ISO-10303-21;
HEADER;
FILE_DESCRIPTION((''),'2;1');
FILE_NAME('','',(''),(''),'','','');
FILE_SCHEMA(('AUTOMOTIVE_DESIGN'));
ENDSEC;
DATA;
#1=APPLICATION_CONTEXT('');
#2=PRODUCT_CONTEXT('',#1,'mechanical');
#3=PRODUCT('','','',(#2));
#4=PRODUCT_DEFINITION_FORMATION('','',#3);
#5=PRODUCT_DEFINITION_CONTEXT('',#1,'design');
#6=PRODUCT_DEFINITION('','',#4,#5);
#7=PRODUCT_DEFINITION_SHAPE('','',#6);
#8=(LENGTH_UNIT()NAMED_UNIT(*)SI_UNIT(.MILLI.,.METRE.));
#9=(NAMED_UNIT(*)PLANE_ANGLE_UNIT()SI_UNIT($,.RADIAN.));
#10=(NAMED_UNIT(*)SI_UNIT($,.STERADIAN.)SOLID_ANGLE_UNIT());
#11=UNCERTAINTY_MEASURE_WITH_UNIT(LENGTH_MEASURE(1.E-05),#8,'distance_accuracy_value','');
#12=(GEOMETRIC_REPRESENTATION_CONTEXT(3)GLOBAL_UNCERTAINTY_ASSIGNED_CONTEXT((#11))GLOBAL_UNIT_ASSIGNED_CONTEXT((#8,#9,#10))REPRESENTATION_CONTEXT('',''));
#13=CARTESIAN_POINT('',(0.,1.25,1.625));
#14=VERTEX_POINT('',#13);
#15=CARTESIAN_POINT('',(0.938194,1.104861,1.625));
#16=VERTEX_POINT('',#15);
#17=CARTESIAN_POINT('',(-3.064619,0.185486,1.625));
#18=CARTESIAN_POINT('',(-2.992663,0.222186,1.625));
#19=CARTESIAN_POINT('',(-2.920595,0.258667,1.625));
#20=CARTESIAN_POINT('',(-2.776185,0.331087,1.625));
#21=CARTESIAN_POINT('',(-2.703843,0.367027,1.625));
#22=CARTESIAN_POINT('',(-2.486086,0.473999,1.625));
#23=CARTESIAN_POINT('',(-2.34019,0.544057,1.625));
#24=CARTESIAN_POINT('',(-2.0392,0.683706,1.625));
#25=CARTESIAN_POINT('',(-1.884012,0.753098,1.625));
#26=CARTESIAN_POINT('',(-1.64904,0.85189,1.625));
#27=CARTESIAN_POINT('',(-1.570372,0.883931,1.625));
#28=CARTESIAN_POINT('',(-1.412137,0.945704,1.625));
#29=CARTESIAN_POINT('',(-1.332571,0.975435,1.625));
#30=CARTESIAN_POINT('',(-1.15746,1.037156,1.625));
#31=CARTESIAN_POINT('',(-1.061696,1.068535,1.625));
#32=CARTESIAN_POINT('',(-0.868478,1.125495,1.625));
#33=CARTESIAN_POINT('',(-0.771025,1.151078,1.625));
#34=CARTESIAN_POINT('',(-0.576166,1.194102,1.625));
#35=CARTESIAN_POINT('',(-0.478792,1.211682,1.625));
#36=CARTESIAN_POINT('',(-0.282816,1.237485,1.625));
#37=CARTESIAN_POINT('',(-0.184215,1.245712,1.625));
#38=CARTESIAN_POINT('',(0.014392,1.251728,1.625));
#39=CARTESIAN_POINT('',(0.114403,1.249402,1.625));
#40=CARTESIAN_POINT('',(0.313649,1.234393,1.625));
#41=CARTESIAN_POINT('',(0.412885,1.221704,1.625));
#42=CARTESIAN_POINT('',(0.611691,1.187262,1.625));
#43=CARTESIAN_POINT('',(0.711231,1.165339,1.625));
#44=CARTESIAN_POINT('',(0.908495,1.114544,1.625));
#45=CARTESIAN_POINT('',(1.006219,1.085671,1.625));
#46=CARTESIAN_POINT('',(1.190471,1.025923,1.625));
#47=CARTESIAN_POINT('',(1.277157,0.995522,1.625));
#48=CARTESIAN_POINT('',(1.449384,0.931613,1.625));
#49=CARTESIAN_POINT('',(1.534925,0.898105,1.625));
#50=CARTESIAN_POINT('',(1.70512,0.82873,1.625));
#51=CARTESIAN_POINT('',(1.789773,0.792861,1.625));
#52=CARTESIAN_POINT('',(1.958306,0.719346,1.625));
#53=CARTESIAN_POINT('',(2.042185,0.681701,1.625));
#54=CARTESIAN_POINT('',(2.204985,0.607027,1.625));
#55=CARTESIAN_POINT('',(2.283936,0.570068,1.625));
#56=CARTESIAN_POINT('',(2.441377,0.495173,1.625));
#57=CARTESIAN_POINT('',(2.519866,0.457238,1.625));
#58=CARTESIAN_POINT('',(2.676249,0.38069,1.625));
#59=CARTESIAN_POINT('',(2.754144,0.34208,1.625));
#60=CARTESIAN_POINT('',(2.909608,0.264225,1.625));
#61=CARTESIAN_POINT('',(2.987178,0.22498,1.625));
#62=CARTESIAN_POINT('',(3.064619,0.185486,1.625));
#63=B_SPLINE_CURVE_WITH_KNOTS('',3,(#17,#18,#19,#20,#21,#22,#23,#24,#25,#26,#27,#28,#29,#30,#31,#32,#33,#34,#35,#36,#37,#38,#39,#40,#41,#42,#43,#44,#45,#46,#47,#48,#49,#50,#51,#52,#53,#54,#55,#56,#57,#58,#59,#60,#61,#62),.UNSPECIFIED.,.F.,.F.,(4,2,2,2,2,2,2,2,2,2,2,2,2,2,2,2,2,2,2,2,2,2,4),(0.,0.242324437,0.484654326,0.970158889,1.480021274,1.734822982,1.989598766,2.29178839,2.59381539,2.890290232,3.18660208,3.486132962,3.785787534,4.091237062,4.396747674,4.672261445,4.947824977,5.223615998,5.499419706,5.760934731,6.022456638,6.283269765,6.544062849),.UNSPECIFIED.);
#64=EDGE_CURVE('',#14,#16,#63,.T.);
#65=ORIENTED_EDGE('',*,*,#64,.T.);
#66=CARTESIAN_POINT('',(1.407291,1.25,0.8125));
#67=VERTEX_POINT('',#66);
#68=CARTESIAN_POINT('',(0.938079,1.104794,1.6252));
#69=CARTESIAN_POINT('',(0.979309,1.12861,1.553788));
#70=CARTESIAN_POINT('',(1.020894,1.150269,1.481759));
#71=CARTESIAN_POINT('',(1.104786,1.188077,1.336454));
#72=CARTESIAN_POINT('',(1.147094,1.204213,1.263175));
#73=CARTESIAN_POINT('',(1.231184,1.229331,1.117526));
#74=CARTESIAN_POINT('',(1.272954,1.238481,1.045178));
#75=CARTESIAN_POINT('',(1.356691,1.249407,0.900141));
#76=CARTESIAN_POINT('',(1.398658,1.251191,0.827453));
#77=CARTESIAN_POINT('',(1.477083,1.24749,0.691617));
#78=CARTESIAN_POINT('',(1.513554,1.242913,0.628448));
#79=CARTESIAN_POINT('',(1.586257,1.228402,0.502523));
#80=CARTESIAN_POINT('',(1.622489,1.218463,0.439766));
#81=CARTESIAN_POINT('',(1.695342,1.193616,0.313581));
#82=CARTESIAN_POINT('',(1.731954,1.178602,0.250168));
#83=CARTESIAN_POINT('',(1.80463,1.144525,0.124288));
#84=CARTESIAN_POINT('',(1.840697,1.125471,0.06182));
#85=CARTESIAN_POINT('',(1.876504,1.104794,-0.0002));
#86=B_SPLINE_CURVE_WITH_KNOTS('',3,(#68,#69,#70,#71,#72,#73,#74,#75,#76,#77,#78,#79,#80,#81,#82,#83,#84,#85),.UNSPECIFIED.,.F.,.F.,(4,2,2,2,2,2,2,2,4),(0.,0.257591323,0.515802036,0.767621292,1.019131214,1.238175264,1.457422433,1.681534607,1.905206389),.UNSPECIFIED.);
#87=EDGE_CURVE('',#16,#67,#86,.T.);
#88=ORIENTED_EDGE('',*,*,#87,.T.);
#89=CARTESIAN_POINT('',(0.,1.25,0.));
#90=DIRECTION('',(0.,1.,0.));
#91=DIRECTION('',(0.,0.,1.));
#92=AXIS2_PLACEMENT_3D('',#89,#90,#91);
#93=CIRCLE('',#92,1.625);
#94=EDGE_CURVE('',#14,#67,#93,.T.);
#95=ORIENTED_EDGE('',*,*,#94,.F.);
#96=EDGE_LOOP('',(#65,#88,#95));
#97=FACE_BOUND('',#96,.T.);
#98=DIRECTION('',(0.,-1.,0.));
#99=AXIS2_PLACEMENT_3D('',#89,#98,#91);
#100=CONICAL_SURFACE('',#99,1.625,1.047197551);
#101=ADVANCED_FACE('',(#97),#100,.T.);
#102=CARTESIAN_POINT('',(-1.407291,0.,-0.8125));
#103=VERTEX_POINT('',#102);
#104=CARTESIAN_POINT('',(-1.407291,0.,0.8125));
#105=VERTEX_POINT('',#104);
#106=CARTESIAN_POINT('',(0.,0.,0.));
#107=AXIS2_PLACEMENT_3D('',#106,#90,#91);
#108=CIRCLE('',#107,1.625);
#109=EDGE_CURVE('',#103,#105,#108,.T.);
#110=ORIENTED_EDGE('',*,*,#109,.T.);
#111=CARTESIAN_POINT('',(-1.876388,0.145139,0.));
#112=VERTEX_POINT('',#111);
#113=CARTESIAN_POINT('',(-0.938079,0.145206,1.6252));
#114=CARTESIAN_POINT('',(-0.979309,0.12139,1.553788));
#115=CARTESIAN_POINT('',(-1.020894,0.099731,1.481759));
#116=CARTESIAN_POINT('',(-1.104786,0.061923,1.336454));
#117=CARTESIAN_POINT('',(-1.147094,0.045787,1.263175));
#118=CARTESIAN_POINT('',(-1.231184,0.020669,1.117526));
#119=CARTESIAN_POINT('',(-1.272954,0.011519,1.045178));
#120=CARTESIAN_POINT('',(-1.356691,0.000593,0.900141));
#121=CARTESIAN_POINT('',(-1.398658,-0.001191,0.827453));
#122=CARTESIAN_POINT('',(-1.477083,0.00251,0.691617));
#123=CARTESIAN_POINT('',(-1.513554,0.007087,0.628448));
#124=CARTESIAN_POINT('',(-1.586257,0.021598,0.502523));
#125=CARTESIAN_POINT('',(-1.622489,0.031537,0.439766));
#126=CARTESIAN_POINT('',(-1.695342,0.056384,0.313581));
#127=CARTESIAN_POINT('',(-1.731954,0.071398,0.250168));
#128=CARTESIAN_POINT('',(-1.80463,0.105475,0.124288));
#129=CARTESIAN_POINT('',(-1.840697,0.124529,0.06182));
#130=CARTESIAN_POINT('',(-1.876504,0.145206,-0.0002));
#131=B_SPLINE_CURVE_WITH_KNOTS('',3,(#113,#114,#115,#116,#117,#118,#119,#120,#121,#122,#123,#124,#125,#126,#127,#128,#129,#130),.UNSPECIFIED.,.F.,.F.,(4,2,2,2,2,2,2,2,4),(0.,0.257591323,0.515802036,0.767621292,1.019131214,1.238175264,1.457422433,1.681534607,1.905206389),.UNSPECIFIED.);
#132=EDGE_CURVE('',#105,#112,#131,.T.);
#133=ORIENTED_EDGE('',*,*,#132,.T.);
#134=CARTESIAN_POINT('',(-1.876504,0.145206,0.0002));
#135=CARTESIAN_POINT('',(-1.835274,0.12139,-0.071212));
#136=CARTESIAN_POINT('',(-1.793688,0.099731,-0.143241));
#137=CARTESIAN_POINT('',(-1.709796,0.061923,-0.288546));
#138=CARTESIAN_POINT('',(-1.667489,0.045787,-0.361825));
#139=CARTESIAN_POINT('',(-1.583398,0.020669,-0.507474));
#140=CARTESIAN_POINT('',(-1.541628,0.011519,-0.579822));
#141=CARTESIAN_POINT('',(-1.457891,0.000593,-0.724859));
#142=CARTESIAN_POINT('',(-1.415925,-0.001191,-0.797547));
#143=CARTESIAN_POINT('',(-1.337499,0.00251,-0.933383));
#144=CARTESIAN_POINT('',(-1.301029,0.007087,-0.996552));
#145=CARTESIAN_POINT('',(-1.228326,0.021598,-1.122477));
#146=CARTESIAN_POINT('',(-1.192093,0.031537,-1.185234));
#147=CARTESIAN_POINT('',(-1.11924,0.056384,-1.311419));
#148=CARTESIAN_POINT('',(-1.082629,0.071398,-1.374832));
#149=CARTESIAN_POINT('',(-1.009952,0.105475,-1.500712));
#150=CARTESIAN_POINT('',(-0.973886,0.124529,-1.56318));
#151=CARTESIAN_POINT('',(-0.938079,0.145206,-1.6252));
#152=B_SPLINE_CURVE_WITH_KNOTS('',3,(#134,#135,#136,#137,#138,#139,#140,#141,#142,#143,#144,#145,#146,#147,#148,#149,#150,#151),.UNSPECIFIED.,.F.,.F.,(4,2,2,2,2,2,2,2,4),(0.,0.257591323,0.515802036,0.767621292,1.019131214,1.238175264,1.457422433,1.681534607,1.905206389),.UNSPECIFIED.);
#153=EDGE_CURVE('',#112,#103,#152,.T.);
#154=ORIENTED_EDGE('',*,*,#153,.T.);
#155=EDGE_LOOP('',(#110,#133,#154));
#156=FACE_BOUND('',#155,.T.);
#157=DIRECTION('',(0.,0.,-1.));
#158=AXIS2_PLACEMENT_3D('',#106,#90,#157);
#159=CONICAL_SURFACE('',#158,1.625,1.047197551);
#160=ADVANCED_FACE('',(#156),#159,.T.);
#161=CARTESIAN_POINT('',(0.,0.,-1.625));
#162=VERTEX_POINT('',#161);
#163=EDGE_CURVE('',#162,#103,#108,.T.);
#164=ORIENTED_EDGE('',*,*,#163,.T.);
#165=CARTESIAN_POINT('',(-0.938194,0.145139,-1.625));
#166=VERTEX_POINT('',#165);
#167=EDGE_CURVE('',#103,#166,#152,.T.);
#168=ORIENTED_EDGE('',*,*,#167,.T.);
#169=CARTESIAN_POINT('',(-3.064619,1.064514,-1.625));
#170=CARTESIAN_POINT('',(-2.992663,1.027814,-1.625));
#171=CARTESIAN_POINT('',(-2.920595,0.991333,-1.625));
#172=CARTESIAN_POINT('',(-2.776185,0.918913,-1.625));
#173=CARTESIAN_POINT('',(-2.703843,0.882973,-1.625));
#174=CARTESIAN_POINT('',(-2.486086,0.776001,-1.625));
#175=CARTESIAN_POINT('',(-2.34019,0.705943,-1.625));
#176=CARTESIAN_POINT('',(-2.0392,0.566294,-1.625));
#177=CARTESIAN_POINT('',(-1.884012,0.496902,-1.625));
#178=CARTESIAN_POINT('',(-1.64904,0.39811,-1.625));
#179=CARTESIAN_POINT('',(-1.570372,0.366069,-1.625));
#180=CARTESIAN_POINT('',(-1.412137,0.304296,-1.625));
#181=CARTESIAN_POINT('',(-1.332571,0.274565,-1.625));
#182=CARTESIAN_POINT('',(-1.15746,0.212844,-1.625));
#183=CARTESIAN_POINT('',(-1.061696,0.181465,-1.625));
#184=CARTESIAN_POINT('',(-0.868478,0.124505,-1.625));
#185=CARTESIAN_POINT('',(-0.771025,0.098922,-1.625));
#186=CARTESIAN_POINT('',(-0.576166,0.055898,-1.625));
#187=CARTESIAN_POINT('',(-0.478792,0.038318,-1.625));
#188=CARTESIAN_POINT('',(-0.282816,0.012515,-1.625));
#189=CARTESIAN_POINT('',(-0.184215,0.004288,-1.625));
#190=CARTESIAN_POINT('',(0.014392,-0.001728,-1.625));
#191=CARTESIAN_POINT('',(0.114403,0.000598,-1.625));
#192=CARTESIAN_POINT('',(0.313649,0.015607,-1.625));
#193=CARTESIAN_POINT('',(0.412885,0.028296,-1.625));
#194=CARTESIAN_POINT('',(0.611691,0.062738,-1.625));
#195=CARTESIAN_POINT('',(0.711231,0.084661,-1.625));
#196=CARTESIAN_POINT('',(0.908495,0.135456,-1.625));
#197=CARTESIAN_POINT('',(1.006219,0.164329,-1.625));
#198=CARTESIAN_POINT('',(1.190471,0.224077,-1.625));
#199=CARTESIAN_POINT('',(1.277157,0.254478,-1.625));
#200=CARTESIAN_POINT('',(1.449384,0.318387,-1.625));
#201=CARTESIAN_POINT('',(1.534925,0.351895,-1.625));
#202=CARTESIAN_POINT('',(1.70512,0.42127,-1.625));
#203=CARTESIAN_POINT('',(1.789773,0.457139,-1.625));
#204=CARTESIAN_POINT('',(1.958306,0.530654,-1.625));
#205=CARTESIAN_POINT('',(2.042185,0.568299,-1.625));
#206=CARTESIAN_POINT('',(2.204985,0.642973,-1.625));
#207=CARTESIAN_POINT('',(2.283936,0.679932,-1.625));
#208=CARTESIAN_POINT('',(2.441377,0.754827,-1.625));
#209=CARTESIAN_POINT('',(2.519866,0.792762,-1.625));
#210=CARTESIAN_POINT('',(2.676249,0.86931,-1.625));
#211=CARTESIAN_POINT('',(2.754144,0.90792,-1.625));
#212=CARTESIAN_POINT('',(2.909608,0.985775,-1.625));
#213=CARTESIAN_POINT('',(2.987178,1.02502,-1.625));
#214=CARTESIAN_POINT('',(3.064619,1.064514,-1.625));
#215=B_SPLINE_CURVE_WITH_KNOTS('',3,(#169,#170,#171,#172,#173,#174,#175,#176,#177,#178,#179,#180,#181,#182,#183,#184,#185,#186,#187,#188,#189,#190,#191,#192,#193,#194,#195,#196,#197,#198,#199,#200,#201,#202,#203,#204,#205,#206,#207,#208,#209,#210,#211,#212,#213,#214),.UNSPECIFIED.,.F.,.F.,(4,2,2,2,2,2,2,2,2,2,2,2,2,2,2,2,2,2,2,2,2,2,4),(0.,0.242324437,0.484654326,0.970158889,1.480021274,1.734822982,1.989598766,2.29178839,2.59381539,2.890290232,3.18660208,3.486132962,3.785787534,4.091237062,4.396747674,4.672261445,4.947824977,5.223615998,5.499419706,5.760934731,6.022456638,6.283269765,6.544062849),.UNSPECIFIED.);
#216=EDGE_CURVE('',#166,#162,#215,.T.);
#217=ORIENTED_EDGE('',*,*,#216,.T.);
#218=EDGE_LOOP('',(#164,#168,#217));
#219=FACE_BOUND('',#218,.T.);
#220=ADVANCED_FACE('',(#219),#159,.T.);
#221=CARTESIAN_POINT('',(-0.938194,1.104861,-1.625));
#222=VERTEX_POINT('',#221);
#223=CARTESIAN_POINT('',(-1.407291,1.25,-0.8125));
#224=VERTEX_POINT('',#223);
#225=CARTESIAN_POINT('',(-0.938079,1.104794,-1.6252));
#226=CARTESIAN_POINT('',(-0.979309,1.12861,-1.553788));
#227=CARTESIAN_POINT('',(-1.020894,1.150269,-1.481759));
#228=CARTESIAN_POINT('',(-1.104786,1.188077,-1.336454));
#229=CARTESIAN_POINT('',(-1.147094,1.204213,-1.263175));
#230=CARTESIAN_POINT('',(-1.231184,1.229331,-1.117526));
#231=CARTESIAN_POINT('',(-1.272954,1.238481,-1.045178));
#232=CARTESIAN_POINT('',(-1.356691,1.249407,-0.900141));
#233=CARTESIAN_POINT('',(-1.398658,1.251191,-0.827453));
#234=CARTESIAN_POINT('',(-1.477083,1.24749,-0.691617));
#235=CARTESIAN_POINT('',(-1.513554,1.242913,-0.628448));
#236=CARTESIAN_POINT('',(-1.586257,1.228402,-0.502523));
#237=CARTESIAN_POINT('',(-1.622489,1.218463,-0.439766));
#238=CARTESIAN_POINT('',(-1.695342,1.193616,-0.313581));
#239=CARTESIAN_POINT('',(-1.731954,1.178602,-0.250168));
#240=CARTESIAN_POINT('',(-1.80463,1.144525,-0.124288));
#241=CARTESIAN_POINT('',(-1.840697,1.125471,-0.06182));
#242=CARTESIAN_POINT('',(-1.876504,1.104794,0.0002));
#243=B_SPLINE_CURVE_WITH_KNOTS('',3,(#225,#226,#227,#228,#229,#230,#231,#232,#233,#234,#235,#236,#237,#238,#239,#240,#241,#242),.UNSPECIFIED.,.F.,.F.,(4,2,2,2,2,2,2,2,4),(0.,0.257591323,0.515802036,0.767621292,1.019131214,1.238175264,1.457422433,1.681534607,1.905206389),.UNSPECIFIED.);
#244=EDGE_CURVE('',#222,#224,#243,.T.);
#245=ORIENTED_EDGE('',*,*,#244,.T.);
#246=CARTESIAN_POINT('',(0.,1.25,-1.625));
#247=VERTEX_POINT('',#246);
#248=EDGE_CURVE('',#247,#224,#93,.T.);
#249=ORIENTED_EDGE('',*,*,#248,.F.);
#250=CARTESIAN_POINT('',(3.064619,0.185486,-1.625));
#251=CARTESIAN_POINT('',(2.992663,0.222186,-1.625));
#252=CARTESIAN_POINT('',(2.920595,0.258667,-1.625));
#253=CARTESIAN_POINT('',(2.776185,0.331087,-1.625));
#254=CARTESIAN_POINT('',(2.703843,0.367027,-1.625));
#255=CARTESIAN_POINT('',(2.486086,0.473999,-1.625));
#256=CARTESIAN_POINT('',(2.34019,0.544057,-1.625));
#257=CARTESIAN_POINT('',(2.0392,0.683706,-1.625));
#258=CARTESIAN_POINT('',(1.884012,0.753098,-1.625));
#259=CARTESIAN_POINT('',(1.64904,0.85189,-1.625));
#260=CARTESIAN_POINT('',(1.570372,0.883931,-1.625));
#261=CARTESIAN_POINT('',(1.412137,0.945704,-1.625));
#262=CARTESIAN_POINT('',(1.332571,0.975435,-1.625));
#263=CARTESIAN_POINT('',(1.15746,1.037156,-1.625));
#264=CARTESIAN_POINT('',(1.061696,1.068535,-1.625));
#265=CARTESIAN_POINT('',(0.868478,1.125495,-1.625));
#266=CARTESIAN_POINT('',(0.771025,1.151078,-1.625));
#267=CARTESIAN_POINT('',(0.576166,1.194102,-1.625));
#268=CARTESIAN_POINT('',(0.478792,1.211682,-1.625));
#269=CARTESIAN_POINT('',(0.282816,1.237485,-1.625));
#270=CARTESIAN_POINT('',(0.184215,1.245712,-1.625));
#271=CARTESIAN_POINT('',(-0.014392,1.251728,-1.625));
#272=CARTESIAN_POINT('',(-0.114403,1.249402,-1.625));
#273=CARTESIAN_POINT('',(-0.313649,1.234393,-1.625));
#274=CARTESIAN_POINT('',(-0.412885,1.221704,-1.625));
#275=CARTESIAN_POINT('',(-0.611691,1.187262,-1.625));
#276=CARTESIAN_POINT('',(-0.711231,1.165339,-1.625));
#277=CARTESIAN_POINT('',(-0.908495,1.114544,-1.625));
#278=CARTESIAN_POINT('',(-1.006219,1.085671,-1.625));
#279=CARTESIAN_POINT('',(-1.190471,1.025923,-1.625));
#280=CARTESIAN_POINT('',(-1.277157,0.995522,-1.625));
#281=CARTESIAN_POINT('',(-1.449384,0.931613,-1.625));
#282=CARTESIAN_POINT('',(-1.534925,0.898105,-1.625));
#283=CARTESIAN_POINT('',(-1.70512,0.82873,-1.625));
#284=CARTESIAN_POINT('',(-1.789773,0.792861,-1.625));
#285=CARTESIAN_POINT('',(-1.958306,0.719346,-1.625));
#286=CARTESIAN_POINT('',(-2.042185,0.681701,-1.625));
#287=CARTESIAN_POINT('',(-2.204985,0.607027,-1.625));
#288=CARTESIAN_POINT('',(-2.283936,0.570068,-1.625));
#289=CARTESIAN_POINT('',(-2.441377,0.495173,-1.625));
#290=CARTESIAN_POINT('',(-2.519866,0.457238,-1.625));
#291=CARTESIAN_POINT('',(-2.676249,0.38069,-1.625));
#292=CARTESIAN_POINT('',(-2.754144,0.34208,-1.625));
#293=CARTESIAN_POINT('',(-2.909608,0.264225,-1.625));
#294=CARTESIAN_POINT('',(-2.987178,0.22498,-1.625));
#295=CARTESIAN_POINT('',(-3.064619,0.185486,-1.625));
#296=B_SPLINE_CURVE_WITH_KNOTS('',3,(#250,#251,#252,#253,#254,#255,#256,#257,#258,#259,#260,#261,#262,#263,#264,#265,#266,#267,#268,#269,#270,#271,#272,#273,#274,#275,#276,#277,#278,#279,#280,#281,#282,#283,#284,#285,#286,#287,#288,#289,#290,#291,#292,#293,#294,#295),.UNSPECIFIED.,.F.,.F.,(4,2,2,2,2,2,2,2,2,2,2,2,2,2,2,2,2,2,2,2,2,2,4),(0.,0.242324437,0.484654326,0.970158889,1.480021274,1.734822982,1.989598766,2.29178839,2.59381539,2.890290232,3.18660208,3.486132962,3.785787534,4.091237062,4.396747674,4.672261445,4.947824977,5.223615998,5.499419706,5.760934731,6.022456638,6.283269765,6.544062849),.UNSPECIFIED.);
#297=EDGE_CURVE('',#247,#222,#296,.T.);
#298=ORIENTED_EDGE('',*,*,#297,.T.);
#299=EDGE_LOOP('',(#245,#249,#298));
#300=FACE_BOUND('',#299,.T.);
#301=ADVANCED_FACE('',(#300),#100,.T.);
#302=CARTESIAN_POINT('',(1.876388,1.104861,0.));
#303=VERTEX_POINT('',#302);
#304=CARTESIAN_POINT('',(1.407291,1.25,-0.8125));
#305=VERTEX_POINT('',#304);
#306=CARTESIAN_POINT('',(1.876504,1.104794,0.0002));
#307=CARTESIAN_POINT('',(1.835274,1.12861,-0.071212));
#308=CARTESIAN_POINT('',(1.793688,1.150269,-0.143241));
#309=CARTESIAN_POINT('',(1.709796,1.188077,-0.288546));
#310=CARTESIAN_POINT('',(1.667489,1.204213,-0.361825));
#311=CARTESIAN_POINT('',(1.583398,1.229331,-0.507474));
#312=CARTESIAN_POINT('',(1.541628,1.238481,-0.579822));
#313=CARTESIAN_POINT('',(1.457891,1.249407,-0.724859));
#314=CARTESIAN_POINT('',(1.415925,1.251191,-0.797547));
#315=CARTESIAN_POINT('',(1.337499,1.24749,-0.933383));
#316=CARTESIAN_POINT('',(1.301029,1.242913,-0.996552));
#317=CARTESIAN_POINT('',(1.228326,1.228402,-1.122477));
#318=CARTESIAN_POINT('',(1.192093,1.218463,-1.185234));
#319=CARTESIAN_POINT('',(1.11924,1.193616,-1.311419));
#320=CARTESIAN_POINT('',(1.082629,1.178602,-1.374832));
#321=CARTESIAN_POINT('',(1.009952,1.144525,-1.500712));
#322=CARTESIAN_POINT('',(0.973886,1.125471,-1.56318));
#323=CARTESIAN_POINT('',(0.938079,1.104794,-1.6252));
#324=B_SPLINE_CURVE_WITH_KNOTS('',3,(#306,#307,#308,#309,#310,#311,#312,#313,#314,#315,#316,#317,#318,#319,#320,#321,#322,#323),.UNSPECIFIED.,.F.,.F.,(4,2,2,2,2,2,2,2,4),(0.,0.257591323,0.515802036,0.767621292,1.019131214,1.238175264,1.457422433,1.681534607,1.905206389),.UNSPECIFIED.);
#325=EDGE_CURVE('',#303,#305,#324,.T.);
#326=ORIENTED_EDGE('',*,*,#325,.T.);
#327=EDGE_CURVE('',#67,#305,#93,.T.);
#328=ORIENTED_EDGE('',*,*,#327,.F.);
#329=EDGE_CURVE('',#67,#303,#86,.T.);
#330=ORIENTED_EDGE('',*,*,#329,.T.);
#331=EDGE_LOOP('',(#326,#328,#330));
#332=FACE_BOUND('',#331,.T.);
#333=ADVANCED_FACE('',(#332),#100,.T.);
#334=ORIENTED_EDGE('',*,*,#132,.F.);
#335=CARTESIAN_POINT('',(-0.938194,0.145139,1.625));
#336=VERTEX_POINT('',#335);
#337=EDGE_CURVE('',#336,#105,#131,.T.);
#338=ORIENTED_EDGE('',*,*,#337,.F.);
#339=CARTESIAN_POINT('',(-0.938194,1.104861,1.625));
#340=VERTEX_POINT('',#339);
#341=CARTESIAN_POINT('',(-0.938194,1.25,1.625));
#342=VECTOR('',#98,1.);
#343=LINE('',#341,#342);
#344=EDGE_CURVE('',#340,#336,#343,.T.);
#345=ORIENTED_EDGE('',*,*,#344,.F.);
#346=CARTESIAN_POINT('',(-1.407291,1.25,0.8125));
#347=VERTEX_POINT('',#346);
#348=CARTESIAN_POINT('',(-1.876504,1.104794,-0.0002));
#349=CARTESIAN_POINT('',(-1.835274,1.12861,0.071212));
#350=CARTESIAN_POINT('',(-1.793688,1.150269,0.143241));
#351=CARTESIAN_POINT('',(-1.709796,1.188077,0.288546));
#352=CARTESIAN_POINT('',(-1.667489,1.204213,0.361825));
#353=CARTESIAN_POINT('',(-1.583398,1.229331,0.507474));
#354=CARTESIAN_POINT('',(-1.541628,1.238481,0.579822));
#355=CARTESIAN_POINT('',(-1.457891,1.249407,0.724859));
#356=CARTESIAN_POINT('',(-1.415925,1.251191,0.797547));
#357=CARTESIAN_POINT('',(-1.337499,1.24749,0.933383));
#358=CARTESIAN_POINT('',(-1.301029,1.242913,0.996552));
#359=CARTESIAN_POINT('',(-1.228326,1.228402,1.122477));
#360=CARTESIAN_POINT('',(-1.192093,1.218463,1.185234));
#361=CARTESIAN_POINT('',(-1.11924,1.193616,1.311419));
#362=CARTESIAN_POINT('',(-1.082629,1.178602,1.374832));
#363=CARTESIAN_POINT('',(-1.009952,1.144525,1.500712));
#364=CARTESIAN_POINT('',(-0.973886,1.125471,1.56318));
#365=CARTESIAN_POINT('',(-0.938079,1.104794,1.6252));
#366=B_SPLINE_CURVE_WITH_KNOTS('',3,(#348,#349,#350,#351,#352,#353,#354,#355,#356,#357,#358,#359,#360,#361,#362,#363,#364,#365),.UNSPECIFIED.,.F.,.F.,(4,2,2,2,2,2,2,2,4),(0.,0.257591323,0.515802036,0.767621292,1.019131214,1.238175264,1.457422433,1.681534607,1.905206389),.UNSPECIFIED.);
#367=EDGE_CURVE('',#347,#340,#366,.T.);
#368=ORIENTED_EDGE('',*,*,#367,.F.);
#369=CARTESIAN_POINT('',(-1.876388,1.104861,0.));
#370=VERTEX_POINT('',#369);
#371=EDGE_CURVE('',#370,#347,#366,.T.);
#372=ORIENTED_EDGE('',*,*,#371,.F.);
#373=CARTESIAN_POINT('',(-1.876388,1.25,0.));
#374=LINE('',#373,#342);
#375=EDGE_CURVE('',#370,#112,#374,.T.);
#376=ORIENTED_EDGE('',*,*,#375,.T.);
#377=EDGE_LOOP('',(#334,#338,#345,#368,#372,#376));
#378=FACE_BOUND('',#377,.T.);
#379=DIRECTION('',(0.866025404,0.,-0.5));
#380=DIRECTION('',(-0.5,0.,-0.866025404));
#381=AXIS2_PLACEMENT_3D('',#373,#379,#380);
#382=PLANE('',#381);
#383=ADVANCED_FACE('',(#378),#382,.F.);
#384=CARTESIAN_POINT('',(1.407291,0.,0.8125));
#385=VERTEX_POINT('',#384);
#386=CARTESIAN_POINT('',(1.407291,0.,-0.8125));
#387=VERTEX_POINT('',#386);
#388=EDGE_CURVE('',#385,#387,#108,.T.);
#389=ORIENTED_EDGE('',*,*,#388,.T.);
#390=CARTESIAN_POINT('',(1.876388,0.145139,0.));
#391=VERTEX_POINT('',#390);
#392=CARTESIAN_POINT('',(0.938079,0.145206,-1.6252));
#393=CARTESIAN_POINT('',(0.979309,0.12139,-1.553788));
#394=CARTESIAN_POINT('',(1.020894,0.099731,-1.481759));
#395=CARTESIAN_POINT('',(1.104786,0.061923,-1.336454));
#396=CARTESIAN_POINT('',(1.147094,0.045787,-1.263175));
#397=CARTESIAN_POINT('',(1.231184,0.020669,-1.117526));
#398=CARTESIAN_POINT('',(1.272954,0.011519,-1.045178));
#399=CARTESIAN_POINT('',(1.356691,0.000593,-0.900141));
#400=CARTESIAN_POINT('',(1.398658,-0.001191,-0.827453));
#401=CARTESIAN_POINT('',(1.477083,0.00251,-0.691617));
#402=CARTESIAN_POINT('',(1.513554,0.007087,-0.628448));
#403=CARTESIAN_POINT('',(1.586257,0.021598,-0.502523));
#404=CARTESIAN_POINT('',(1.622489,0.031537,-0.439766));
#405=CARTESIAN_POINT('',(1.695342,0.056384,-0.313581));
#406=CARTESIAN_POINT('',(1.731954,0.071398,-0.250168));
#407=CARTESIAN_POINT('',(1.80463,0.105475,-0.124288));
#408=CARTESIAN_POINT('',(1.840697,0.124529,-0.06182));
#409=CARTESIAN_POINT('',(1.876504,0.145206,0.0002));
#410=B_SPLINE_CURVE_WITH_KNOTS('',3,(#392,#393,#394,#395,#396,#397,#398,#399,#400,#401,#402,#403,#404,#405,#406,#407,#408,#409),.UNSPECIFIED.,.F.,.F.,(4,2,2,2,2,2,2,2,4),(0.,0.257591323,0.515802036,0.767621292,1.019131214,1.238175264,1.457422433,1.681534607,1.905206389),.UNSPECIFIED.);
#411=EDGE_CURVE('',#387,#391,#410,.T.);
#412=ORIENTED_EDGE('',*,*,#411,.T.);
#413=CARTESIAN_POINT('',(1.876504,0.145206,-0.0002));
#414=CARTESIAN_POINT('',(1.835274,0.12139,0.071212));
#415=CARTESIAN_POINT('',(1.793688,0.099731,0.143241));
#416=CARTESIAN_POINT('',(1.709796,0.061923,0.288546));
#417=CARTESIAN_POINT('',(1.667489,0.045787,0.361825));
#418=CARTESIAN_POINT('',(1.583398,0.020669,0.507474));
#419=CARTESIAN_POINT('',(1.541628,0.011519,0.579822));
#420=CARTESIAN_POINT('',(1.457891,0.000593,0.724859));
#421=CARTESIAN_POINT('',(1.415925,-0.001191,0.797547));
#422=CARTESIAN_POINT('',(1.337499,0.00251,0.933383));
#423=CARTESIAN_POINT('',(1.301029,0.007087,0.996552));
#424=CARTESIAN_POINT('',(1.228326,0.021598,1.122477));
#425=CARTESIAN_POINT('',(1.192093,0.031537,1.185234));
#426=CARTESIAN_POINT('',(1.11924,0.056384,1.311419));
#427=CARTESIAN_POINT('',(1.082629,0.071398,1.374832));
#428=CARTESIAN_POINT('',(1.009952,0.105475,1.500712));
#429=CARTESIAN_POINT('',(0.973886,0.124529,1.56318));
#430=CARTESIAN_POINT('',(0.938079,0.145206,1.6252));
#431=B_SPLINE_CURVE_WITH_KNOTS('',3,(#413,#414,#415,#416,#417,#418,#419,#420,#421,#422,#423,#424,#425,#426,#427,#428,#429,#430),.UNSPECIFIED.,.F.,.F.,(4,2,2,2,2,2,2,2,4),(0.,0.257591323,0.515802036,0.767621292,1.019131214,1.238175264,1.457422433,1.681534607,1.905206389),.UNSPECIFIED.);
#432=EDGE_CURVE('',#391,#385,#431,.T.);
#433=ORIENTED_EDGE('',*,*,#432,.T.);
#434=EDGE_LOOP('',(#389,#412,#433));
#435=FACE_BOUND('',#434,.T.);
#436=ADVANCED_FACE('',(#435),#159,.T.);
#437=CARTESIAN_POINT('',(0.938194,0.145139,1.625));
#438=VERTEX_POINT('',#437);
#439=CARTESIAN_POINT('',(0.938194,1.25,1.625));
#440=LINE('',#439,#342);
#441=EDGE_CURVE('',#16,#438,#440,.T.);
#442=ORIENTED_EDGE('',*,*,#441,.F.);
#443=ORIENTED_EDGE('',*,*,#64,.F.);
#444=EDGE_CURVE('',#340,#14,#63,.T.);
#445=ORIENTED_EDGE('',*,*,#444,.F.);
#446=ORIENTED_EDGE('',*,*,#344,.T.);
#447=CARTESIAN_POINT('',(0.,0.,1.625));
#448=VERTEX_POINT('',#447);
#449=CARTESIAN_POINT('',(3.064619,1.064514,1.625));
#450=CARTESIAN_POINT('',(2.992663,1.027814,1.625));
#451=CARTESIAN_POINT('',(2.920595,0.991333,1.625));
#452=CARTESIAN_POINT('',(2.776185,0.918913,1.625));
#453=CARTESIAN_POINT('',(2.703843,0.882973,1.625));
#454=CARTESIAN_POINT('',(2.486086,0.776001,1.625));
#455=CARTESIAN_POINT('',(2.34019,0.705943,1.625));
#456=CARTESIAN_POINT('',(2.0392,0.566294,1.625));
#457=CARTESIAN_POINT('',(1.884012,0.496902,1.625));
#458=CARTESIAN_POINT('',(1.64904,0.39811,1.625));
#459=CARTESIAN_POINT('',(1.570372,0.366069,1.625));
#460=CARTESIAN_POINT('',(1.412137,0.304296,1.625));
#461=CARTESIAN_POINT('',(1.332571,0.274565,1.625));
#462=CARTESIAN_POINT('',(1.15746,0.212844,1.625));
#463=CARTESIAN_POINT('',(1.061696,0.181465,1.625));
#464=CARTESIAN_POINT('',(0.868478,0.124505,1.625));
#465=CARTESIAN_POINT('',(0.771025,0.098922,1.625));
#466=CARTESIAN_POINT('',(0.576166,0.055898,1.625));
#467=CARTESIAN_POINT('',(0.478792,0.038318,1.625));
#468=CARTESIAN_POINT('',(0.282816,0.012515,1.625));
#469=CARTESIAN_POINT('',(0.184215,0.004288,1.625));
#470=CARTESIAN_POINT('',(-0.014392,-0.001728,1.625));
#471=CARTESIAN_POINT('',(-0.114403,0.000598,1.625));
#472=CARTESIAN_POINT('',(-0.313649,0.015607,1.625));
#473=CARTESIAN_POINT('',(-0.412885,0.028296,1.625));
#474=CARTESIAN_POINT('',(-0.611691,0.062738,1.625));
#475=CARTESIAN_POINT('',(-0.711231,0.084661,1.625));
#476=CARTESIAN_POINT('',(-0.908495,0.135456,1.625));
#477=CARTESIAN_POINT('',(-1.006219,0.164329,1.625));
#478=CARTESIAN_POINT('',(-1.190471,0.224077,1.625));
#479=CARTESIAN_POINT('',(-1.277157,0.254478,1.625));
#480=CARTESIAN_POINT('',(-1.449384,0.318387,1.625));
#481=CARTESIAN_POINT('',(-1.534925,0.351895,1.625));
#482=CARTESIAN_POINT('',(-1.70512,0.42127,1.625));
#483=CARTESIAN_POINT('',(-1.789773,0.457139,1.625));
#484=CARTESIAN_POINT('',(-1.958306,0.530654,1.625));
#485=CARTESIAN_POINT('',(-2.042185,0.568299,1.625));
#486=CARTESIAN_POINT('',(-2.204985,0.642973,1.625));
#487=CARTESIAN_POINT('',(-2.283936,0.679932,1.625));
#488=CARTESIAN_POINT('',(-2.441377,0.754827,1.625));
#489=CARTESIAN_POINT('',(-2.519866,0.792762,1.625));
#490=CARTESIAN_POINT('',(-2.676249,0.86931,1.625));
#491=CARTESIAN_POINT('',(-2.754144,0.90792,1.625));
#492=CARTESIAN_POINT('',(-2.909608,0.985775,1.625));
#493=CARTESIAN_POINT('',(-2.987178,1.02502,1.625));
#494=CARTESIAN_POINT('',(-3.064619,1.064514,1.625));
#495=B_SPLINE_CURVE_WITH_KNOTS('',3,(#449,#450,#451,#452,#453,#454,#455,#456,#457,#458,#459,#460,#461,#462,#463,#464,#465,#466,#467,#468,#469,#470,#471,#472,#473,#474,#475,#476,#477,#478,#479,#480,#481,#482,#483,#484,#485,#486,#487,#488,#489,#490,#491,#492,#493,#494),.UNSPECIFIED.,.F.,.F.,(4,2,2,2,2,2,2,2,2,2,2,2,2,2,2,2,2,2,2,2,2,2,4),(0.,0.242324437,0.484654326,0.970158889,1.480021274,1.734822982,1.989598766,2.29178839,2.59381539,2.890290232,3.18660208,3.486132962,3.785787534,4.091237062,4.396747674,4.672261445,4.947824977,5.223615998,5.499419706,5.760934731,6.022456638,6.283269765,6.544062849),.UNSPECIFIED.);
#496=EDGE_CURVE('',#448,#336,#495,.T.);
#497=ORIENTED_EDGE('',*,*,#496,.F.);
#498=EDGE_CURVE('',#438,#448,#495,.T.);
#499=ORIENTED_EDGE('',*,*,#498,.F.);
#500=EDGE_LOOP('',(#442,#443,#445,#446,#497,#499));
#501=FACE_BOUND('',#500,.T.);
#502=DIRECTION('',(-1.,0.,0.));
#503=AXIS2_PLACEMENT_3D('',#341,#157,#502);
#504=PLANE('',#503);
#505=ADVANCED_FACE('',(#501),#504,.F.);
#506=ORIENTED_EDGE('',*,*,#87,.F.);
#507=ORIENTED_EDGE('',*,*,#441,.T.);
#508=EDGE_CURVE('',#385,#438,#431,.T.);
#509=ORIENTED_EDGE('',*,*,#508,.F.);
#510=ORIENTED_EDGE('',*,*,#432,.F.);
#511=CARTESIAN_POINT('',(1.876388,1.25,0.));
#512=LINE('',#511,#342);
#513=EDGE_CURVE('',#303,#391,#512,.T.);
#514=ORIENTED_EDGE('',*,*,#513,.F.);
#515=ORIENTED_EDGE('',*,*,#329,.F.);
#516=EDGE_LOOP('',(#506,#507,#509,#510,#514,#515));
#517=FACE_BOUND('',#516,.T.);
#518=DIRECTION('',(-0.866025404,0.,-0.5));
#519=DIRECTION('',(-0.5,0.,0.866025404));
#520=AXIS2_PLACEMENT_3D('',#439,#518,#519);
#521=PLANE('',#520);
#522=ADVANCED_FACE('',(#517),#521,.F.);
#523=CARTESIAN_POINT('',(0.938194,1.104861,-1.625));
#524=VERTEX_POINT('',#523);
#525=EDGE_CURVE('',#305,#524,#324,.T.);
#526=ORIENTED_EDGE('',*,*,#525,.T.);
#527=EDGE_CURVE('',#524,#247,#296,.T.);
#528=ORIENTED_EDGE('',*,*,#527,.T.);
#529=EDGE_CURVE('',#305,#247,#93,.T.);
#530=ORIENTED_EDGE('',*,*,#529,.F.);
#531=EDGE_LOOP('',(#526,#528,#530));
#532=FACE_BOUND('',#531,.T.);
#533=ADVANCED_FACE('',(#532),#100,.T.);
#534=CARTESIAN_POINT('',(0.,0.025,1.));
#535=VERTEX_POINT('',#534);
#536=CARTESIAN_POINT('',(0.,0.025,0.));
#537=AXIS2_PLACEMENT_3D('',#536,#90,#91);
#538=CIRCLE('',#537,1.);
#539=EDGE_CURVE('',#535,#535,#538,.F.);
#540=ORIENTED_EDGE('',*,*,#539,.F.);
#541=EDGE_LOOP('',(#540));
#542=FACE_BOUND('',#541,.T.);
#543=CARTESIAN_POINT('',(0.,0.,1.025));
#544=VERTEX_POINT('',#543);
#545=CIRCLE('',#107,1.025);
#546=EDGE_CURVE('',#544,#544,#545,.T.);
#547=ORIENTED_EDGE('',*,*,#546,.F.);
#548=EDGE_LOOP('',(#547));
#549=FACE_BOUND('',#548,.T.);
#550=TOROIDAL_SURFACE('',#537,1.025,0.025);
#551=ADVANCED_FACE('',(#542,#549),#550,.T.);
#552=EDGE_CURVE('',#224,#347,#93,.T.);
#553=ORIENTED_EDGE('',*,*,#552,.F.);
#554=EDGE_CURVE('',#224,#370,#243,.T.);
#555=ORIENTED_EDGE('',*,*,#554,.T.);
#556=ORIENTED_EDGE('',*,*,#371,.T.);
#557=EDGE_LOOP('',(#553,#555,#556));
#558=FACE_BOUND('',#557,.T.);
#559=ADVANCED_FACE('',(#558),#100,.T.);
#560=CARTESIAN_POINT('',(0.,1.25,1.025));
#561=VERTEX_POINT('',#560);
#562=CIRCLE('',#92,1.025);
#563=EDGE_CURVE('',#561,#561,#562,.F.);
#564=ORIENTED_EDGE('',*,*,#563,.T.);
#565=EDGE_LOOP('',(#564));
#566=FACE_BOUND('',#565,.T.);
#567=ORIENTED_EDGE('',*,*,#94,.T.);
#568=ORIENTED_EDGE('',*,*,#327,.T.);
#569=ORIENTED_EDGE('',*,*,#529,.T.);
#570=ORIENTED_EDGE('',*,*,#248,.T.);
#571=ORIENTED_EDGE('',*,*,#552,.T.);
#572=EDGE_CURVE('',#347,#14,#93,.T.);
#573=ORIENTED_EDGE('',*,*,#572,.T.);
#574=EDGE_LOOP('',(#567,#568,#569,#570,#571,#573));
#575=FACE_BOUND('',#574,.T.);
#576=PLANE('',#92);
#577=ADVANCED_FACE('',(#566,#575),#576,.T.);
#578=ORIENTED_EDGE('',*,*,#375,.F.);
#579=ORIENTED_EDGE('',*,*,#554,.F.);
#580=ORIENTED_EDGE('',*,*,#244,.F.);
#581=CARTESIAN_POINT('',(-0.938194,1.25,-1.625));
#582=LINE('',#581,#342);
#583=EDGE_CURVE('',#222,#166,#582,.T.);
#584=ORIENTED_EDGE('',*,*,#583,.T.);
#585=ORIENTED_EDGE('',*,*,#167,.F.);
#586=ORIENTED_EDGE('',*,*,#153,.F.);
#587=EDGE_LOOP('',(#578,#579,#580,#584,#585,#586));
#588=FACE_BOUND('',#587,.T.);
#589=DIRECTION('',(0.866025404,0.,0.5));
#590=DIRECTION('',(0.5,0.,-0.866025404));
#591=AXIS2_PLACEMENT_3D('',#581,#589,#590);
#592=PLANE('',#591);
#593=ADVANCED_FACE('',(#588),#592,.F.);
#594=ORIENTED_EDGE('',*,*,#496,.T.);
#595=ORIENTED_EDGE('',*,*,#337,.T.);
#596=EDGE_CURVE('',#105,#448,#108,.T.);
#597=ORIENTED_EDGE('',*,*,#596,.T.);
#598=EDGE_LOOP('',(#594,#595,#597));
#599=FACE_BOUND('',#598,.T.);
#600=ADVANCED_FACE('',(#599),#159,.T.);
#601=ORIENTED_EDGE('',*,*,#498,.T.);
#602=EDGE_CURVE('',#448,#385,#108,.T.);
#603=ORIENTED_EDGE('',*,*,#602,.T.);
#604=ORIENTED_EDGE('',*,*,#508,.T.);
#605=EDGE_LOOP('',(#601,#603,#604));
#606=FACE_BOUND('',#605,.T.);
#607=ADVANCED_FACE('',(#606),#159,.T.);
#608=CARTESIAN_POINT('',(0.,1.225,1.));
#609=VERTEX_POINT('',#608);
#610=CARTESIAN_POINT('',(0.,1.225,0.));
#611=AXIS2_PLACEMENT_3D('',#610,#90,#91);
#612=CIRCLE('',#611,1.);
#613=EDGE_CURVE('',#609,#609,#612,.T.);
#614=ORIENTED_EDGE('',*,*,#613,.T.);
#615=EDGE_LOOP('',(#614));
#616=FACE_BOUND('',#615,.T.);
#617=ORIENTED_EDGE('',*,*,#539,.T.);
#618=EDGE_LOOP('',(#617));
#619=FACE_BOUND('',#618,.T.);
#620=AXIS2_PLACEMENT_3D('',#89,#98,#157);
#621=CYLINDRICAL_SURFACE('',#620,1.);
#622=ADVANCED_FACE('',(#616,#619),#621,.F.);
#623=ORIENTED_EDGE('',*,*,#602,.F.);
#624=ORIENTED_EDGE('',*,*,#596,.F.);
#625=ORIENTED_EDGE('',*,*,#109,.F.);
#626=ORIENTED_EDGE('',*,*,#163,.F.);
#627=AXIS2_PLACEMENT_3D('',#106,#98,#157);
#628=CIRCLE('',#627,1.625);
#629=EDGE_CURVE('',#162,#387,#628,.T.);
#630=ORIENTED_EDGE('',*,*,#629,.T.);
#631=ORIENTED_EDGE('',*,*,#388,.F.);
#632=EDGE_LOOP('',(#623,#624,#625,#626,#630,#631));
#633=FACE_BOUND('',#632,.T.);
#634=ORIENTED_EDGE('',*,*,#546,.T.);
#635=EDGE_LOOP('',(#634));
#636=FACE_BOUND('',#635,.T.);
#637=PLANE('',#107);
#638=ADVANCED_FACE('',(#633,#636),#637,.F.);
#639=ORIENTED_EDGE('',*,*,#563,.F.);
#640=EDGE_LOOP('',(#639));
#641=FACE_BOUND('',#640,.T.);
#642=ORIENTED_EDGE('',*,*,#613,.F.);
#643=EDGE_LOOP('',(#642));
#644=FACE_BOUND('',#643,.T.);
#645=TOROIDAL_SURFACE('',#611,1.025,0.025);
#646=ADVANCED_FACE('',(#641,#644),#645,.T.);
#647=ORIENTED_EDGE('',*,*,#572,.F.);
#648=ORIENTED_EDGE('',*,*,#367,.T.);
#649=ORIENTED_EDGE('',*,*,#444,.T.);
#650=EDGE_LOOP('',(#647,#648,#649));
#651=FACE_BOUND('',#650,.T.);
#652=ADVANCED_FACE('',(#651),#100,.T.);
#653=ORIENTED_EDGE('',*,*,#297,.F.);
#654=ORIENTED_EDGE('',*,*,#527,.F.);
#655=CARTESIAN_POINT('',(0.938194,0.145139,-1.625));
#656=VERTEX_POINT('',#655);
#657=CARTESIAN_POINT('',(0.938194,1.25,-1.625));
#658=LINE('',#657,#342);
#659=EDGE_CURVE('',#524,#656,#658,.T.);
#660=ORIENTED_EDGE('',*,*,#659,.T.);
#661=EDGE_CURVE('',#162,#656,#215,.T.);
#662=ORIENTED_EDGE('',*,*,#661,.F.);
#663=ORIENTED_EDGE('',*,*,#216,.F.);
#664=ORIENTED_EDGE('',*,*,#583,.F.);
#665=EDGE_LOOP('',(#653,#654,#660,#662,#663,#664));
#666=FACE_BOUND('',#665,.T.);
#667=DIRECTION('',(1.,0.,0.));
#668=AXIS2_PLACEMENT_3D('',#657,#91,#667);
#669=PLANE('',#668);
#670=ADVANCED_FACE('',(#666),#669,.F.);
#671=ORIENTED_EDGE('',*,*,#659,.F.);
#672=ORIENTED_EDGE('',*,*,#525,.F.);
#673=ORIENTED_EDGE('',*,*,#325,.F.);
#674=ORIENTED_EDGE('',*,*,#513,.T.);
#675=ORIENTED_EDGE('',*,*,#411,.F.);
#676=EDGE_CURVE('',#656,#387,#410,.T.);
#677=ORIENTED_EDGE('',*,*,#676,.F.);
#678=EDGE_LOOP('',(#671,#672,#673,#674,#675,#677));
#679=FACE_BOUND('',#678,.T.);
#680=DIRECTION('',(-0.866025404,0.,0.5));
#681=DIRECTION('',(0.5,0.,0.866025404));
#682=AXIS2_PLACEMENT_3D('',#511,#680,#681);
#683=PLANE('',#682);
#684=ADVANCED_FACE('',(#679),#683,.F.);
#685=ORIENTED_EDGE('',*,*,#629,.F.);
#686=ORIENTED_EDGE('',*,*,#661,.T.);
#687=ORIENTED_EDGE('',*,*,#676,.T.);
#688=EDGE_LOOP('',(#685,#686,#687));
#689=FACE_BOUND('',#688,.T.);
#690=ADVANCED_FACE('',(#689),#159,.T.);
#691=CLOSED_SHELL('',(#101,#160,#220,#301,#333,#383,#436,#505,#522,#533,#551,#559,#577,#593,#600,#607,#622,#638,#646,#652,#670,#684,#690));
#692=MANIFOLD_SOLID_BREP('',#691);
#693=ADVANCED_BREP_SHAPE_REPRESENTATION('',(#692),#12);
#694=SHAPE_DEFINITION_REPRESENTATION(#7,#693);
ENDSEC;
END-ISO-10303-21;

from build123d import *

# Parameters (mm, degrees)
SKETCH1_R           = 1
BOSS_EXTRUDE3_DEPTH = 1.25
SKETCH3_OUTSIDE_W   = 10.24
SKETCH3_OUTSIDE_H   = 9.738
SKETCH3_OUTSIDE_R   = 1.625
CUT_EXTRUDE1_DEPTH  = 1
CUT_EXTRUDE1_DRAFT  = -60
SKETCH4_OUTSIDE_W   = 10.24
SKETCH4_OUTSIDE_H   = 9.738
SKETCH4_OUTSIDE_R   = 1.625
CUT_EXTRUDE2_DEPTH  = 1
CUT_EXTRUDE2_DRAFT  = -60
FILLET1_R           = 0.025


with BuildPart() as part:
    # Sketch1 → Boss-Extrude3 (new body)
    with BuildSketch(Plane(origin=(0, 0, 0), x_dir=(1, 0, 0), z_dir=(0, 1, 0))):
        Polygon((-1.876388375, 0), (-0.938194187, -1.625), (0.938194187, -1.625), (1.876388375, 0), (0.938194187, 1.625), (-0.938194187, 1.625), align=None)
        with Locations(Location((0, 0, 0), (0, 0, 270))):
            Circle(SKETCH1_R, mode=Mode.SUBTRACT)
    extrude(amount=BOSS_EXTRUDE3_DEPTH)


with BuildPart() as cut_extrude1_tool:
    # Sketch3 outside → Cut-Extrude1 (with draft: the straight prism first)
    with BuildSketch(Plane(origin=(0, 1.25, 0), x_dir=(1, 0, 0), z_dir=(0, 1, 0))):
        Rectangle(SKETCH3_OUTSIDE_W, SKETCH3_OUTSIDE_H)
        Circle(SKETCH3_OUTSIDE_R, mode=Mode.SUBTRACT)
    extrude(amount=-CUT_EXTRUDE1_DEPTH)
    # Cut-Extrude1: the draft: its side faces are tilted about the plane it starts from
    cut_extrude1_sides = [cut_extrude1_tool.faces().sort_by_distance(p)[0] for p in [
        (0, 0.75, 4.869),
        (5.12, 0.75, 0),
        (0, 0.75, -4.869),
        (-5.12, 0.75, 0),
        (-1.625, 0.75, 0),
    ]]
    draft(cut_extrude1_sides, Plane(origin=(0, 1.25, 0), x_dir=(1, 0, 0), z_dir=(0, 1, 0)), CUT_EXTRUDE1_DRAFT)


with BuildPart() as part_1:
    add(part.part)

    # Cut-Extrude1: cut by cut_extrude1_tool
    add(cut_extrude1_tool.part, mode=Mode.SUBTRACT)


with BuildPart() as cut_extrude2_tool:
    # Sketch4 outside → Cut-Extrude2 (with draft: the straight prism first)
    with BuildSketch(Plane.XZ):
        Rectangle(SKETCH4_OUTSIDE_W, SKETCH4_OUTSIDE_H)
        Circle(SKETCH4_OUTSIDE_R, mode=Mode.SUBTRACT)
    extrude(amount=-CUT_EXTRUDE2_DEPTH)
    # Cut-Extrude2: the draft: its side faces are tilted about the plane it starts from
    cut_extrude2_sides = [cut_extrude2_tool.faces().sort_by_distance(p)[0] for p in [
        (0, 0.5, -4.869),
        (5.12, 0.5, 0),
        (0, 0.5, 4.869),
        (-5.12, 0.5, 0),
        (-1.625, 0.5, 0),
    ]]
    draft(cut_extrude2_sides, Plane.XZ, CUT_EXTRUDE2_DRAFT)


with BuildPart() as part_2:
    add(part_1.part)

    # Cut-Extrude2: cut by cut_extrude2_tool
    add(cut_extrude2_tool.part, mode=Mode.SUBTRACT)

    # Fillet1
    fillet1_edges = [part_2.edges().sort_by_distance(p)[0] for p in [
        (0, 0, -1),
        (0, 1.25, -1),
    ]]
    fillet(fillet1_edges, radius=FILLET1_R)


solid = part_2.part
